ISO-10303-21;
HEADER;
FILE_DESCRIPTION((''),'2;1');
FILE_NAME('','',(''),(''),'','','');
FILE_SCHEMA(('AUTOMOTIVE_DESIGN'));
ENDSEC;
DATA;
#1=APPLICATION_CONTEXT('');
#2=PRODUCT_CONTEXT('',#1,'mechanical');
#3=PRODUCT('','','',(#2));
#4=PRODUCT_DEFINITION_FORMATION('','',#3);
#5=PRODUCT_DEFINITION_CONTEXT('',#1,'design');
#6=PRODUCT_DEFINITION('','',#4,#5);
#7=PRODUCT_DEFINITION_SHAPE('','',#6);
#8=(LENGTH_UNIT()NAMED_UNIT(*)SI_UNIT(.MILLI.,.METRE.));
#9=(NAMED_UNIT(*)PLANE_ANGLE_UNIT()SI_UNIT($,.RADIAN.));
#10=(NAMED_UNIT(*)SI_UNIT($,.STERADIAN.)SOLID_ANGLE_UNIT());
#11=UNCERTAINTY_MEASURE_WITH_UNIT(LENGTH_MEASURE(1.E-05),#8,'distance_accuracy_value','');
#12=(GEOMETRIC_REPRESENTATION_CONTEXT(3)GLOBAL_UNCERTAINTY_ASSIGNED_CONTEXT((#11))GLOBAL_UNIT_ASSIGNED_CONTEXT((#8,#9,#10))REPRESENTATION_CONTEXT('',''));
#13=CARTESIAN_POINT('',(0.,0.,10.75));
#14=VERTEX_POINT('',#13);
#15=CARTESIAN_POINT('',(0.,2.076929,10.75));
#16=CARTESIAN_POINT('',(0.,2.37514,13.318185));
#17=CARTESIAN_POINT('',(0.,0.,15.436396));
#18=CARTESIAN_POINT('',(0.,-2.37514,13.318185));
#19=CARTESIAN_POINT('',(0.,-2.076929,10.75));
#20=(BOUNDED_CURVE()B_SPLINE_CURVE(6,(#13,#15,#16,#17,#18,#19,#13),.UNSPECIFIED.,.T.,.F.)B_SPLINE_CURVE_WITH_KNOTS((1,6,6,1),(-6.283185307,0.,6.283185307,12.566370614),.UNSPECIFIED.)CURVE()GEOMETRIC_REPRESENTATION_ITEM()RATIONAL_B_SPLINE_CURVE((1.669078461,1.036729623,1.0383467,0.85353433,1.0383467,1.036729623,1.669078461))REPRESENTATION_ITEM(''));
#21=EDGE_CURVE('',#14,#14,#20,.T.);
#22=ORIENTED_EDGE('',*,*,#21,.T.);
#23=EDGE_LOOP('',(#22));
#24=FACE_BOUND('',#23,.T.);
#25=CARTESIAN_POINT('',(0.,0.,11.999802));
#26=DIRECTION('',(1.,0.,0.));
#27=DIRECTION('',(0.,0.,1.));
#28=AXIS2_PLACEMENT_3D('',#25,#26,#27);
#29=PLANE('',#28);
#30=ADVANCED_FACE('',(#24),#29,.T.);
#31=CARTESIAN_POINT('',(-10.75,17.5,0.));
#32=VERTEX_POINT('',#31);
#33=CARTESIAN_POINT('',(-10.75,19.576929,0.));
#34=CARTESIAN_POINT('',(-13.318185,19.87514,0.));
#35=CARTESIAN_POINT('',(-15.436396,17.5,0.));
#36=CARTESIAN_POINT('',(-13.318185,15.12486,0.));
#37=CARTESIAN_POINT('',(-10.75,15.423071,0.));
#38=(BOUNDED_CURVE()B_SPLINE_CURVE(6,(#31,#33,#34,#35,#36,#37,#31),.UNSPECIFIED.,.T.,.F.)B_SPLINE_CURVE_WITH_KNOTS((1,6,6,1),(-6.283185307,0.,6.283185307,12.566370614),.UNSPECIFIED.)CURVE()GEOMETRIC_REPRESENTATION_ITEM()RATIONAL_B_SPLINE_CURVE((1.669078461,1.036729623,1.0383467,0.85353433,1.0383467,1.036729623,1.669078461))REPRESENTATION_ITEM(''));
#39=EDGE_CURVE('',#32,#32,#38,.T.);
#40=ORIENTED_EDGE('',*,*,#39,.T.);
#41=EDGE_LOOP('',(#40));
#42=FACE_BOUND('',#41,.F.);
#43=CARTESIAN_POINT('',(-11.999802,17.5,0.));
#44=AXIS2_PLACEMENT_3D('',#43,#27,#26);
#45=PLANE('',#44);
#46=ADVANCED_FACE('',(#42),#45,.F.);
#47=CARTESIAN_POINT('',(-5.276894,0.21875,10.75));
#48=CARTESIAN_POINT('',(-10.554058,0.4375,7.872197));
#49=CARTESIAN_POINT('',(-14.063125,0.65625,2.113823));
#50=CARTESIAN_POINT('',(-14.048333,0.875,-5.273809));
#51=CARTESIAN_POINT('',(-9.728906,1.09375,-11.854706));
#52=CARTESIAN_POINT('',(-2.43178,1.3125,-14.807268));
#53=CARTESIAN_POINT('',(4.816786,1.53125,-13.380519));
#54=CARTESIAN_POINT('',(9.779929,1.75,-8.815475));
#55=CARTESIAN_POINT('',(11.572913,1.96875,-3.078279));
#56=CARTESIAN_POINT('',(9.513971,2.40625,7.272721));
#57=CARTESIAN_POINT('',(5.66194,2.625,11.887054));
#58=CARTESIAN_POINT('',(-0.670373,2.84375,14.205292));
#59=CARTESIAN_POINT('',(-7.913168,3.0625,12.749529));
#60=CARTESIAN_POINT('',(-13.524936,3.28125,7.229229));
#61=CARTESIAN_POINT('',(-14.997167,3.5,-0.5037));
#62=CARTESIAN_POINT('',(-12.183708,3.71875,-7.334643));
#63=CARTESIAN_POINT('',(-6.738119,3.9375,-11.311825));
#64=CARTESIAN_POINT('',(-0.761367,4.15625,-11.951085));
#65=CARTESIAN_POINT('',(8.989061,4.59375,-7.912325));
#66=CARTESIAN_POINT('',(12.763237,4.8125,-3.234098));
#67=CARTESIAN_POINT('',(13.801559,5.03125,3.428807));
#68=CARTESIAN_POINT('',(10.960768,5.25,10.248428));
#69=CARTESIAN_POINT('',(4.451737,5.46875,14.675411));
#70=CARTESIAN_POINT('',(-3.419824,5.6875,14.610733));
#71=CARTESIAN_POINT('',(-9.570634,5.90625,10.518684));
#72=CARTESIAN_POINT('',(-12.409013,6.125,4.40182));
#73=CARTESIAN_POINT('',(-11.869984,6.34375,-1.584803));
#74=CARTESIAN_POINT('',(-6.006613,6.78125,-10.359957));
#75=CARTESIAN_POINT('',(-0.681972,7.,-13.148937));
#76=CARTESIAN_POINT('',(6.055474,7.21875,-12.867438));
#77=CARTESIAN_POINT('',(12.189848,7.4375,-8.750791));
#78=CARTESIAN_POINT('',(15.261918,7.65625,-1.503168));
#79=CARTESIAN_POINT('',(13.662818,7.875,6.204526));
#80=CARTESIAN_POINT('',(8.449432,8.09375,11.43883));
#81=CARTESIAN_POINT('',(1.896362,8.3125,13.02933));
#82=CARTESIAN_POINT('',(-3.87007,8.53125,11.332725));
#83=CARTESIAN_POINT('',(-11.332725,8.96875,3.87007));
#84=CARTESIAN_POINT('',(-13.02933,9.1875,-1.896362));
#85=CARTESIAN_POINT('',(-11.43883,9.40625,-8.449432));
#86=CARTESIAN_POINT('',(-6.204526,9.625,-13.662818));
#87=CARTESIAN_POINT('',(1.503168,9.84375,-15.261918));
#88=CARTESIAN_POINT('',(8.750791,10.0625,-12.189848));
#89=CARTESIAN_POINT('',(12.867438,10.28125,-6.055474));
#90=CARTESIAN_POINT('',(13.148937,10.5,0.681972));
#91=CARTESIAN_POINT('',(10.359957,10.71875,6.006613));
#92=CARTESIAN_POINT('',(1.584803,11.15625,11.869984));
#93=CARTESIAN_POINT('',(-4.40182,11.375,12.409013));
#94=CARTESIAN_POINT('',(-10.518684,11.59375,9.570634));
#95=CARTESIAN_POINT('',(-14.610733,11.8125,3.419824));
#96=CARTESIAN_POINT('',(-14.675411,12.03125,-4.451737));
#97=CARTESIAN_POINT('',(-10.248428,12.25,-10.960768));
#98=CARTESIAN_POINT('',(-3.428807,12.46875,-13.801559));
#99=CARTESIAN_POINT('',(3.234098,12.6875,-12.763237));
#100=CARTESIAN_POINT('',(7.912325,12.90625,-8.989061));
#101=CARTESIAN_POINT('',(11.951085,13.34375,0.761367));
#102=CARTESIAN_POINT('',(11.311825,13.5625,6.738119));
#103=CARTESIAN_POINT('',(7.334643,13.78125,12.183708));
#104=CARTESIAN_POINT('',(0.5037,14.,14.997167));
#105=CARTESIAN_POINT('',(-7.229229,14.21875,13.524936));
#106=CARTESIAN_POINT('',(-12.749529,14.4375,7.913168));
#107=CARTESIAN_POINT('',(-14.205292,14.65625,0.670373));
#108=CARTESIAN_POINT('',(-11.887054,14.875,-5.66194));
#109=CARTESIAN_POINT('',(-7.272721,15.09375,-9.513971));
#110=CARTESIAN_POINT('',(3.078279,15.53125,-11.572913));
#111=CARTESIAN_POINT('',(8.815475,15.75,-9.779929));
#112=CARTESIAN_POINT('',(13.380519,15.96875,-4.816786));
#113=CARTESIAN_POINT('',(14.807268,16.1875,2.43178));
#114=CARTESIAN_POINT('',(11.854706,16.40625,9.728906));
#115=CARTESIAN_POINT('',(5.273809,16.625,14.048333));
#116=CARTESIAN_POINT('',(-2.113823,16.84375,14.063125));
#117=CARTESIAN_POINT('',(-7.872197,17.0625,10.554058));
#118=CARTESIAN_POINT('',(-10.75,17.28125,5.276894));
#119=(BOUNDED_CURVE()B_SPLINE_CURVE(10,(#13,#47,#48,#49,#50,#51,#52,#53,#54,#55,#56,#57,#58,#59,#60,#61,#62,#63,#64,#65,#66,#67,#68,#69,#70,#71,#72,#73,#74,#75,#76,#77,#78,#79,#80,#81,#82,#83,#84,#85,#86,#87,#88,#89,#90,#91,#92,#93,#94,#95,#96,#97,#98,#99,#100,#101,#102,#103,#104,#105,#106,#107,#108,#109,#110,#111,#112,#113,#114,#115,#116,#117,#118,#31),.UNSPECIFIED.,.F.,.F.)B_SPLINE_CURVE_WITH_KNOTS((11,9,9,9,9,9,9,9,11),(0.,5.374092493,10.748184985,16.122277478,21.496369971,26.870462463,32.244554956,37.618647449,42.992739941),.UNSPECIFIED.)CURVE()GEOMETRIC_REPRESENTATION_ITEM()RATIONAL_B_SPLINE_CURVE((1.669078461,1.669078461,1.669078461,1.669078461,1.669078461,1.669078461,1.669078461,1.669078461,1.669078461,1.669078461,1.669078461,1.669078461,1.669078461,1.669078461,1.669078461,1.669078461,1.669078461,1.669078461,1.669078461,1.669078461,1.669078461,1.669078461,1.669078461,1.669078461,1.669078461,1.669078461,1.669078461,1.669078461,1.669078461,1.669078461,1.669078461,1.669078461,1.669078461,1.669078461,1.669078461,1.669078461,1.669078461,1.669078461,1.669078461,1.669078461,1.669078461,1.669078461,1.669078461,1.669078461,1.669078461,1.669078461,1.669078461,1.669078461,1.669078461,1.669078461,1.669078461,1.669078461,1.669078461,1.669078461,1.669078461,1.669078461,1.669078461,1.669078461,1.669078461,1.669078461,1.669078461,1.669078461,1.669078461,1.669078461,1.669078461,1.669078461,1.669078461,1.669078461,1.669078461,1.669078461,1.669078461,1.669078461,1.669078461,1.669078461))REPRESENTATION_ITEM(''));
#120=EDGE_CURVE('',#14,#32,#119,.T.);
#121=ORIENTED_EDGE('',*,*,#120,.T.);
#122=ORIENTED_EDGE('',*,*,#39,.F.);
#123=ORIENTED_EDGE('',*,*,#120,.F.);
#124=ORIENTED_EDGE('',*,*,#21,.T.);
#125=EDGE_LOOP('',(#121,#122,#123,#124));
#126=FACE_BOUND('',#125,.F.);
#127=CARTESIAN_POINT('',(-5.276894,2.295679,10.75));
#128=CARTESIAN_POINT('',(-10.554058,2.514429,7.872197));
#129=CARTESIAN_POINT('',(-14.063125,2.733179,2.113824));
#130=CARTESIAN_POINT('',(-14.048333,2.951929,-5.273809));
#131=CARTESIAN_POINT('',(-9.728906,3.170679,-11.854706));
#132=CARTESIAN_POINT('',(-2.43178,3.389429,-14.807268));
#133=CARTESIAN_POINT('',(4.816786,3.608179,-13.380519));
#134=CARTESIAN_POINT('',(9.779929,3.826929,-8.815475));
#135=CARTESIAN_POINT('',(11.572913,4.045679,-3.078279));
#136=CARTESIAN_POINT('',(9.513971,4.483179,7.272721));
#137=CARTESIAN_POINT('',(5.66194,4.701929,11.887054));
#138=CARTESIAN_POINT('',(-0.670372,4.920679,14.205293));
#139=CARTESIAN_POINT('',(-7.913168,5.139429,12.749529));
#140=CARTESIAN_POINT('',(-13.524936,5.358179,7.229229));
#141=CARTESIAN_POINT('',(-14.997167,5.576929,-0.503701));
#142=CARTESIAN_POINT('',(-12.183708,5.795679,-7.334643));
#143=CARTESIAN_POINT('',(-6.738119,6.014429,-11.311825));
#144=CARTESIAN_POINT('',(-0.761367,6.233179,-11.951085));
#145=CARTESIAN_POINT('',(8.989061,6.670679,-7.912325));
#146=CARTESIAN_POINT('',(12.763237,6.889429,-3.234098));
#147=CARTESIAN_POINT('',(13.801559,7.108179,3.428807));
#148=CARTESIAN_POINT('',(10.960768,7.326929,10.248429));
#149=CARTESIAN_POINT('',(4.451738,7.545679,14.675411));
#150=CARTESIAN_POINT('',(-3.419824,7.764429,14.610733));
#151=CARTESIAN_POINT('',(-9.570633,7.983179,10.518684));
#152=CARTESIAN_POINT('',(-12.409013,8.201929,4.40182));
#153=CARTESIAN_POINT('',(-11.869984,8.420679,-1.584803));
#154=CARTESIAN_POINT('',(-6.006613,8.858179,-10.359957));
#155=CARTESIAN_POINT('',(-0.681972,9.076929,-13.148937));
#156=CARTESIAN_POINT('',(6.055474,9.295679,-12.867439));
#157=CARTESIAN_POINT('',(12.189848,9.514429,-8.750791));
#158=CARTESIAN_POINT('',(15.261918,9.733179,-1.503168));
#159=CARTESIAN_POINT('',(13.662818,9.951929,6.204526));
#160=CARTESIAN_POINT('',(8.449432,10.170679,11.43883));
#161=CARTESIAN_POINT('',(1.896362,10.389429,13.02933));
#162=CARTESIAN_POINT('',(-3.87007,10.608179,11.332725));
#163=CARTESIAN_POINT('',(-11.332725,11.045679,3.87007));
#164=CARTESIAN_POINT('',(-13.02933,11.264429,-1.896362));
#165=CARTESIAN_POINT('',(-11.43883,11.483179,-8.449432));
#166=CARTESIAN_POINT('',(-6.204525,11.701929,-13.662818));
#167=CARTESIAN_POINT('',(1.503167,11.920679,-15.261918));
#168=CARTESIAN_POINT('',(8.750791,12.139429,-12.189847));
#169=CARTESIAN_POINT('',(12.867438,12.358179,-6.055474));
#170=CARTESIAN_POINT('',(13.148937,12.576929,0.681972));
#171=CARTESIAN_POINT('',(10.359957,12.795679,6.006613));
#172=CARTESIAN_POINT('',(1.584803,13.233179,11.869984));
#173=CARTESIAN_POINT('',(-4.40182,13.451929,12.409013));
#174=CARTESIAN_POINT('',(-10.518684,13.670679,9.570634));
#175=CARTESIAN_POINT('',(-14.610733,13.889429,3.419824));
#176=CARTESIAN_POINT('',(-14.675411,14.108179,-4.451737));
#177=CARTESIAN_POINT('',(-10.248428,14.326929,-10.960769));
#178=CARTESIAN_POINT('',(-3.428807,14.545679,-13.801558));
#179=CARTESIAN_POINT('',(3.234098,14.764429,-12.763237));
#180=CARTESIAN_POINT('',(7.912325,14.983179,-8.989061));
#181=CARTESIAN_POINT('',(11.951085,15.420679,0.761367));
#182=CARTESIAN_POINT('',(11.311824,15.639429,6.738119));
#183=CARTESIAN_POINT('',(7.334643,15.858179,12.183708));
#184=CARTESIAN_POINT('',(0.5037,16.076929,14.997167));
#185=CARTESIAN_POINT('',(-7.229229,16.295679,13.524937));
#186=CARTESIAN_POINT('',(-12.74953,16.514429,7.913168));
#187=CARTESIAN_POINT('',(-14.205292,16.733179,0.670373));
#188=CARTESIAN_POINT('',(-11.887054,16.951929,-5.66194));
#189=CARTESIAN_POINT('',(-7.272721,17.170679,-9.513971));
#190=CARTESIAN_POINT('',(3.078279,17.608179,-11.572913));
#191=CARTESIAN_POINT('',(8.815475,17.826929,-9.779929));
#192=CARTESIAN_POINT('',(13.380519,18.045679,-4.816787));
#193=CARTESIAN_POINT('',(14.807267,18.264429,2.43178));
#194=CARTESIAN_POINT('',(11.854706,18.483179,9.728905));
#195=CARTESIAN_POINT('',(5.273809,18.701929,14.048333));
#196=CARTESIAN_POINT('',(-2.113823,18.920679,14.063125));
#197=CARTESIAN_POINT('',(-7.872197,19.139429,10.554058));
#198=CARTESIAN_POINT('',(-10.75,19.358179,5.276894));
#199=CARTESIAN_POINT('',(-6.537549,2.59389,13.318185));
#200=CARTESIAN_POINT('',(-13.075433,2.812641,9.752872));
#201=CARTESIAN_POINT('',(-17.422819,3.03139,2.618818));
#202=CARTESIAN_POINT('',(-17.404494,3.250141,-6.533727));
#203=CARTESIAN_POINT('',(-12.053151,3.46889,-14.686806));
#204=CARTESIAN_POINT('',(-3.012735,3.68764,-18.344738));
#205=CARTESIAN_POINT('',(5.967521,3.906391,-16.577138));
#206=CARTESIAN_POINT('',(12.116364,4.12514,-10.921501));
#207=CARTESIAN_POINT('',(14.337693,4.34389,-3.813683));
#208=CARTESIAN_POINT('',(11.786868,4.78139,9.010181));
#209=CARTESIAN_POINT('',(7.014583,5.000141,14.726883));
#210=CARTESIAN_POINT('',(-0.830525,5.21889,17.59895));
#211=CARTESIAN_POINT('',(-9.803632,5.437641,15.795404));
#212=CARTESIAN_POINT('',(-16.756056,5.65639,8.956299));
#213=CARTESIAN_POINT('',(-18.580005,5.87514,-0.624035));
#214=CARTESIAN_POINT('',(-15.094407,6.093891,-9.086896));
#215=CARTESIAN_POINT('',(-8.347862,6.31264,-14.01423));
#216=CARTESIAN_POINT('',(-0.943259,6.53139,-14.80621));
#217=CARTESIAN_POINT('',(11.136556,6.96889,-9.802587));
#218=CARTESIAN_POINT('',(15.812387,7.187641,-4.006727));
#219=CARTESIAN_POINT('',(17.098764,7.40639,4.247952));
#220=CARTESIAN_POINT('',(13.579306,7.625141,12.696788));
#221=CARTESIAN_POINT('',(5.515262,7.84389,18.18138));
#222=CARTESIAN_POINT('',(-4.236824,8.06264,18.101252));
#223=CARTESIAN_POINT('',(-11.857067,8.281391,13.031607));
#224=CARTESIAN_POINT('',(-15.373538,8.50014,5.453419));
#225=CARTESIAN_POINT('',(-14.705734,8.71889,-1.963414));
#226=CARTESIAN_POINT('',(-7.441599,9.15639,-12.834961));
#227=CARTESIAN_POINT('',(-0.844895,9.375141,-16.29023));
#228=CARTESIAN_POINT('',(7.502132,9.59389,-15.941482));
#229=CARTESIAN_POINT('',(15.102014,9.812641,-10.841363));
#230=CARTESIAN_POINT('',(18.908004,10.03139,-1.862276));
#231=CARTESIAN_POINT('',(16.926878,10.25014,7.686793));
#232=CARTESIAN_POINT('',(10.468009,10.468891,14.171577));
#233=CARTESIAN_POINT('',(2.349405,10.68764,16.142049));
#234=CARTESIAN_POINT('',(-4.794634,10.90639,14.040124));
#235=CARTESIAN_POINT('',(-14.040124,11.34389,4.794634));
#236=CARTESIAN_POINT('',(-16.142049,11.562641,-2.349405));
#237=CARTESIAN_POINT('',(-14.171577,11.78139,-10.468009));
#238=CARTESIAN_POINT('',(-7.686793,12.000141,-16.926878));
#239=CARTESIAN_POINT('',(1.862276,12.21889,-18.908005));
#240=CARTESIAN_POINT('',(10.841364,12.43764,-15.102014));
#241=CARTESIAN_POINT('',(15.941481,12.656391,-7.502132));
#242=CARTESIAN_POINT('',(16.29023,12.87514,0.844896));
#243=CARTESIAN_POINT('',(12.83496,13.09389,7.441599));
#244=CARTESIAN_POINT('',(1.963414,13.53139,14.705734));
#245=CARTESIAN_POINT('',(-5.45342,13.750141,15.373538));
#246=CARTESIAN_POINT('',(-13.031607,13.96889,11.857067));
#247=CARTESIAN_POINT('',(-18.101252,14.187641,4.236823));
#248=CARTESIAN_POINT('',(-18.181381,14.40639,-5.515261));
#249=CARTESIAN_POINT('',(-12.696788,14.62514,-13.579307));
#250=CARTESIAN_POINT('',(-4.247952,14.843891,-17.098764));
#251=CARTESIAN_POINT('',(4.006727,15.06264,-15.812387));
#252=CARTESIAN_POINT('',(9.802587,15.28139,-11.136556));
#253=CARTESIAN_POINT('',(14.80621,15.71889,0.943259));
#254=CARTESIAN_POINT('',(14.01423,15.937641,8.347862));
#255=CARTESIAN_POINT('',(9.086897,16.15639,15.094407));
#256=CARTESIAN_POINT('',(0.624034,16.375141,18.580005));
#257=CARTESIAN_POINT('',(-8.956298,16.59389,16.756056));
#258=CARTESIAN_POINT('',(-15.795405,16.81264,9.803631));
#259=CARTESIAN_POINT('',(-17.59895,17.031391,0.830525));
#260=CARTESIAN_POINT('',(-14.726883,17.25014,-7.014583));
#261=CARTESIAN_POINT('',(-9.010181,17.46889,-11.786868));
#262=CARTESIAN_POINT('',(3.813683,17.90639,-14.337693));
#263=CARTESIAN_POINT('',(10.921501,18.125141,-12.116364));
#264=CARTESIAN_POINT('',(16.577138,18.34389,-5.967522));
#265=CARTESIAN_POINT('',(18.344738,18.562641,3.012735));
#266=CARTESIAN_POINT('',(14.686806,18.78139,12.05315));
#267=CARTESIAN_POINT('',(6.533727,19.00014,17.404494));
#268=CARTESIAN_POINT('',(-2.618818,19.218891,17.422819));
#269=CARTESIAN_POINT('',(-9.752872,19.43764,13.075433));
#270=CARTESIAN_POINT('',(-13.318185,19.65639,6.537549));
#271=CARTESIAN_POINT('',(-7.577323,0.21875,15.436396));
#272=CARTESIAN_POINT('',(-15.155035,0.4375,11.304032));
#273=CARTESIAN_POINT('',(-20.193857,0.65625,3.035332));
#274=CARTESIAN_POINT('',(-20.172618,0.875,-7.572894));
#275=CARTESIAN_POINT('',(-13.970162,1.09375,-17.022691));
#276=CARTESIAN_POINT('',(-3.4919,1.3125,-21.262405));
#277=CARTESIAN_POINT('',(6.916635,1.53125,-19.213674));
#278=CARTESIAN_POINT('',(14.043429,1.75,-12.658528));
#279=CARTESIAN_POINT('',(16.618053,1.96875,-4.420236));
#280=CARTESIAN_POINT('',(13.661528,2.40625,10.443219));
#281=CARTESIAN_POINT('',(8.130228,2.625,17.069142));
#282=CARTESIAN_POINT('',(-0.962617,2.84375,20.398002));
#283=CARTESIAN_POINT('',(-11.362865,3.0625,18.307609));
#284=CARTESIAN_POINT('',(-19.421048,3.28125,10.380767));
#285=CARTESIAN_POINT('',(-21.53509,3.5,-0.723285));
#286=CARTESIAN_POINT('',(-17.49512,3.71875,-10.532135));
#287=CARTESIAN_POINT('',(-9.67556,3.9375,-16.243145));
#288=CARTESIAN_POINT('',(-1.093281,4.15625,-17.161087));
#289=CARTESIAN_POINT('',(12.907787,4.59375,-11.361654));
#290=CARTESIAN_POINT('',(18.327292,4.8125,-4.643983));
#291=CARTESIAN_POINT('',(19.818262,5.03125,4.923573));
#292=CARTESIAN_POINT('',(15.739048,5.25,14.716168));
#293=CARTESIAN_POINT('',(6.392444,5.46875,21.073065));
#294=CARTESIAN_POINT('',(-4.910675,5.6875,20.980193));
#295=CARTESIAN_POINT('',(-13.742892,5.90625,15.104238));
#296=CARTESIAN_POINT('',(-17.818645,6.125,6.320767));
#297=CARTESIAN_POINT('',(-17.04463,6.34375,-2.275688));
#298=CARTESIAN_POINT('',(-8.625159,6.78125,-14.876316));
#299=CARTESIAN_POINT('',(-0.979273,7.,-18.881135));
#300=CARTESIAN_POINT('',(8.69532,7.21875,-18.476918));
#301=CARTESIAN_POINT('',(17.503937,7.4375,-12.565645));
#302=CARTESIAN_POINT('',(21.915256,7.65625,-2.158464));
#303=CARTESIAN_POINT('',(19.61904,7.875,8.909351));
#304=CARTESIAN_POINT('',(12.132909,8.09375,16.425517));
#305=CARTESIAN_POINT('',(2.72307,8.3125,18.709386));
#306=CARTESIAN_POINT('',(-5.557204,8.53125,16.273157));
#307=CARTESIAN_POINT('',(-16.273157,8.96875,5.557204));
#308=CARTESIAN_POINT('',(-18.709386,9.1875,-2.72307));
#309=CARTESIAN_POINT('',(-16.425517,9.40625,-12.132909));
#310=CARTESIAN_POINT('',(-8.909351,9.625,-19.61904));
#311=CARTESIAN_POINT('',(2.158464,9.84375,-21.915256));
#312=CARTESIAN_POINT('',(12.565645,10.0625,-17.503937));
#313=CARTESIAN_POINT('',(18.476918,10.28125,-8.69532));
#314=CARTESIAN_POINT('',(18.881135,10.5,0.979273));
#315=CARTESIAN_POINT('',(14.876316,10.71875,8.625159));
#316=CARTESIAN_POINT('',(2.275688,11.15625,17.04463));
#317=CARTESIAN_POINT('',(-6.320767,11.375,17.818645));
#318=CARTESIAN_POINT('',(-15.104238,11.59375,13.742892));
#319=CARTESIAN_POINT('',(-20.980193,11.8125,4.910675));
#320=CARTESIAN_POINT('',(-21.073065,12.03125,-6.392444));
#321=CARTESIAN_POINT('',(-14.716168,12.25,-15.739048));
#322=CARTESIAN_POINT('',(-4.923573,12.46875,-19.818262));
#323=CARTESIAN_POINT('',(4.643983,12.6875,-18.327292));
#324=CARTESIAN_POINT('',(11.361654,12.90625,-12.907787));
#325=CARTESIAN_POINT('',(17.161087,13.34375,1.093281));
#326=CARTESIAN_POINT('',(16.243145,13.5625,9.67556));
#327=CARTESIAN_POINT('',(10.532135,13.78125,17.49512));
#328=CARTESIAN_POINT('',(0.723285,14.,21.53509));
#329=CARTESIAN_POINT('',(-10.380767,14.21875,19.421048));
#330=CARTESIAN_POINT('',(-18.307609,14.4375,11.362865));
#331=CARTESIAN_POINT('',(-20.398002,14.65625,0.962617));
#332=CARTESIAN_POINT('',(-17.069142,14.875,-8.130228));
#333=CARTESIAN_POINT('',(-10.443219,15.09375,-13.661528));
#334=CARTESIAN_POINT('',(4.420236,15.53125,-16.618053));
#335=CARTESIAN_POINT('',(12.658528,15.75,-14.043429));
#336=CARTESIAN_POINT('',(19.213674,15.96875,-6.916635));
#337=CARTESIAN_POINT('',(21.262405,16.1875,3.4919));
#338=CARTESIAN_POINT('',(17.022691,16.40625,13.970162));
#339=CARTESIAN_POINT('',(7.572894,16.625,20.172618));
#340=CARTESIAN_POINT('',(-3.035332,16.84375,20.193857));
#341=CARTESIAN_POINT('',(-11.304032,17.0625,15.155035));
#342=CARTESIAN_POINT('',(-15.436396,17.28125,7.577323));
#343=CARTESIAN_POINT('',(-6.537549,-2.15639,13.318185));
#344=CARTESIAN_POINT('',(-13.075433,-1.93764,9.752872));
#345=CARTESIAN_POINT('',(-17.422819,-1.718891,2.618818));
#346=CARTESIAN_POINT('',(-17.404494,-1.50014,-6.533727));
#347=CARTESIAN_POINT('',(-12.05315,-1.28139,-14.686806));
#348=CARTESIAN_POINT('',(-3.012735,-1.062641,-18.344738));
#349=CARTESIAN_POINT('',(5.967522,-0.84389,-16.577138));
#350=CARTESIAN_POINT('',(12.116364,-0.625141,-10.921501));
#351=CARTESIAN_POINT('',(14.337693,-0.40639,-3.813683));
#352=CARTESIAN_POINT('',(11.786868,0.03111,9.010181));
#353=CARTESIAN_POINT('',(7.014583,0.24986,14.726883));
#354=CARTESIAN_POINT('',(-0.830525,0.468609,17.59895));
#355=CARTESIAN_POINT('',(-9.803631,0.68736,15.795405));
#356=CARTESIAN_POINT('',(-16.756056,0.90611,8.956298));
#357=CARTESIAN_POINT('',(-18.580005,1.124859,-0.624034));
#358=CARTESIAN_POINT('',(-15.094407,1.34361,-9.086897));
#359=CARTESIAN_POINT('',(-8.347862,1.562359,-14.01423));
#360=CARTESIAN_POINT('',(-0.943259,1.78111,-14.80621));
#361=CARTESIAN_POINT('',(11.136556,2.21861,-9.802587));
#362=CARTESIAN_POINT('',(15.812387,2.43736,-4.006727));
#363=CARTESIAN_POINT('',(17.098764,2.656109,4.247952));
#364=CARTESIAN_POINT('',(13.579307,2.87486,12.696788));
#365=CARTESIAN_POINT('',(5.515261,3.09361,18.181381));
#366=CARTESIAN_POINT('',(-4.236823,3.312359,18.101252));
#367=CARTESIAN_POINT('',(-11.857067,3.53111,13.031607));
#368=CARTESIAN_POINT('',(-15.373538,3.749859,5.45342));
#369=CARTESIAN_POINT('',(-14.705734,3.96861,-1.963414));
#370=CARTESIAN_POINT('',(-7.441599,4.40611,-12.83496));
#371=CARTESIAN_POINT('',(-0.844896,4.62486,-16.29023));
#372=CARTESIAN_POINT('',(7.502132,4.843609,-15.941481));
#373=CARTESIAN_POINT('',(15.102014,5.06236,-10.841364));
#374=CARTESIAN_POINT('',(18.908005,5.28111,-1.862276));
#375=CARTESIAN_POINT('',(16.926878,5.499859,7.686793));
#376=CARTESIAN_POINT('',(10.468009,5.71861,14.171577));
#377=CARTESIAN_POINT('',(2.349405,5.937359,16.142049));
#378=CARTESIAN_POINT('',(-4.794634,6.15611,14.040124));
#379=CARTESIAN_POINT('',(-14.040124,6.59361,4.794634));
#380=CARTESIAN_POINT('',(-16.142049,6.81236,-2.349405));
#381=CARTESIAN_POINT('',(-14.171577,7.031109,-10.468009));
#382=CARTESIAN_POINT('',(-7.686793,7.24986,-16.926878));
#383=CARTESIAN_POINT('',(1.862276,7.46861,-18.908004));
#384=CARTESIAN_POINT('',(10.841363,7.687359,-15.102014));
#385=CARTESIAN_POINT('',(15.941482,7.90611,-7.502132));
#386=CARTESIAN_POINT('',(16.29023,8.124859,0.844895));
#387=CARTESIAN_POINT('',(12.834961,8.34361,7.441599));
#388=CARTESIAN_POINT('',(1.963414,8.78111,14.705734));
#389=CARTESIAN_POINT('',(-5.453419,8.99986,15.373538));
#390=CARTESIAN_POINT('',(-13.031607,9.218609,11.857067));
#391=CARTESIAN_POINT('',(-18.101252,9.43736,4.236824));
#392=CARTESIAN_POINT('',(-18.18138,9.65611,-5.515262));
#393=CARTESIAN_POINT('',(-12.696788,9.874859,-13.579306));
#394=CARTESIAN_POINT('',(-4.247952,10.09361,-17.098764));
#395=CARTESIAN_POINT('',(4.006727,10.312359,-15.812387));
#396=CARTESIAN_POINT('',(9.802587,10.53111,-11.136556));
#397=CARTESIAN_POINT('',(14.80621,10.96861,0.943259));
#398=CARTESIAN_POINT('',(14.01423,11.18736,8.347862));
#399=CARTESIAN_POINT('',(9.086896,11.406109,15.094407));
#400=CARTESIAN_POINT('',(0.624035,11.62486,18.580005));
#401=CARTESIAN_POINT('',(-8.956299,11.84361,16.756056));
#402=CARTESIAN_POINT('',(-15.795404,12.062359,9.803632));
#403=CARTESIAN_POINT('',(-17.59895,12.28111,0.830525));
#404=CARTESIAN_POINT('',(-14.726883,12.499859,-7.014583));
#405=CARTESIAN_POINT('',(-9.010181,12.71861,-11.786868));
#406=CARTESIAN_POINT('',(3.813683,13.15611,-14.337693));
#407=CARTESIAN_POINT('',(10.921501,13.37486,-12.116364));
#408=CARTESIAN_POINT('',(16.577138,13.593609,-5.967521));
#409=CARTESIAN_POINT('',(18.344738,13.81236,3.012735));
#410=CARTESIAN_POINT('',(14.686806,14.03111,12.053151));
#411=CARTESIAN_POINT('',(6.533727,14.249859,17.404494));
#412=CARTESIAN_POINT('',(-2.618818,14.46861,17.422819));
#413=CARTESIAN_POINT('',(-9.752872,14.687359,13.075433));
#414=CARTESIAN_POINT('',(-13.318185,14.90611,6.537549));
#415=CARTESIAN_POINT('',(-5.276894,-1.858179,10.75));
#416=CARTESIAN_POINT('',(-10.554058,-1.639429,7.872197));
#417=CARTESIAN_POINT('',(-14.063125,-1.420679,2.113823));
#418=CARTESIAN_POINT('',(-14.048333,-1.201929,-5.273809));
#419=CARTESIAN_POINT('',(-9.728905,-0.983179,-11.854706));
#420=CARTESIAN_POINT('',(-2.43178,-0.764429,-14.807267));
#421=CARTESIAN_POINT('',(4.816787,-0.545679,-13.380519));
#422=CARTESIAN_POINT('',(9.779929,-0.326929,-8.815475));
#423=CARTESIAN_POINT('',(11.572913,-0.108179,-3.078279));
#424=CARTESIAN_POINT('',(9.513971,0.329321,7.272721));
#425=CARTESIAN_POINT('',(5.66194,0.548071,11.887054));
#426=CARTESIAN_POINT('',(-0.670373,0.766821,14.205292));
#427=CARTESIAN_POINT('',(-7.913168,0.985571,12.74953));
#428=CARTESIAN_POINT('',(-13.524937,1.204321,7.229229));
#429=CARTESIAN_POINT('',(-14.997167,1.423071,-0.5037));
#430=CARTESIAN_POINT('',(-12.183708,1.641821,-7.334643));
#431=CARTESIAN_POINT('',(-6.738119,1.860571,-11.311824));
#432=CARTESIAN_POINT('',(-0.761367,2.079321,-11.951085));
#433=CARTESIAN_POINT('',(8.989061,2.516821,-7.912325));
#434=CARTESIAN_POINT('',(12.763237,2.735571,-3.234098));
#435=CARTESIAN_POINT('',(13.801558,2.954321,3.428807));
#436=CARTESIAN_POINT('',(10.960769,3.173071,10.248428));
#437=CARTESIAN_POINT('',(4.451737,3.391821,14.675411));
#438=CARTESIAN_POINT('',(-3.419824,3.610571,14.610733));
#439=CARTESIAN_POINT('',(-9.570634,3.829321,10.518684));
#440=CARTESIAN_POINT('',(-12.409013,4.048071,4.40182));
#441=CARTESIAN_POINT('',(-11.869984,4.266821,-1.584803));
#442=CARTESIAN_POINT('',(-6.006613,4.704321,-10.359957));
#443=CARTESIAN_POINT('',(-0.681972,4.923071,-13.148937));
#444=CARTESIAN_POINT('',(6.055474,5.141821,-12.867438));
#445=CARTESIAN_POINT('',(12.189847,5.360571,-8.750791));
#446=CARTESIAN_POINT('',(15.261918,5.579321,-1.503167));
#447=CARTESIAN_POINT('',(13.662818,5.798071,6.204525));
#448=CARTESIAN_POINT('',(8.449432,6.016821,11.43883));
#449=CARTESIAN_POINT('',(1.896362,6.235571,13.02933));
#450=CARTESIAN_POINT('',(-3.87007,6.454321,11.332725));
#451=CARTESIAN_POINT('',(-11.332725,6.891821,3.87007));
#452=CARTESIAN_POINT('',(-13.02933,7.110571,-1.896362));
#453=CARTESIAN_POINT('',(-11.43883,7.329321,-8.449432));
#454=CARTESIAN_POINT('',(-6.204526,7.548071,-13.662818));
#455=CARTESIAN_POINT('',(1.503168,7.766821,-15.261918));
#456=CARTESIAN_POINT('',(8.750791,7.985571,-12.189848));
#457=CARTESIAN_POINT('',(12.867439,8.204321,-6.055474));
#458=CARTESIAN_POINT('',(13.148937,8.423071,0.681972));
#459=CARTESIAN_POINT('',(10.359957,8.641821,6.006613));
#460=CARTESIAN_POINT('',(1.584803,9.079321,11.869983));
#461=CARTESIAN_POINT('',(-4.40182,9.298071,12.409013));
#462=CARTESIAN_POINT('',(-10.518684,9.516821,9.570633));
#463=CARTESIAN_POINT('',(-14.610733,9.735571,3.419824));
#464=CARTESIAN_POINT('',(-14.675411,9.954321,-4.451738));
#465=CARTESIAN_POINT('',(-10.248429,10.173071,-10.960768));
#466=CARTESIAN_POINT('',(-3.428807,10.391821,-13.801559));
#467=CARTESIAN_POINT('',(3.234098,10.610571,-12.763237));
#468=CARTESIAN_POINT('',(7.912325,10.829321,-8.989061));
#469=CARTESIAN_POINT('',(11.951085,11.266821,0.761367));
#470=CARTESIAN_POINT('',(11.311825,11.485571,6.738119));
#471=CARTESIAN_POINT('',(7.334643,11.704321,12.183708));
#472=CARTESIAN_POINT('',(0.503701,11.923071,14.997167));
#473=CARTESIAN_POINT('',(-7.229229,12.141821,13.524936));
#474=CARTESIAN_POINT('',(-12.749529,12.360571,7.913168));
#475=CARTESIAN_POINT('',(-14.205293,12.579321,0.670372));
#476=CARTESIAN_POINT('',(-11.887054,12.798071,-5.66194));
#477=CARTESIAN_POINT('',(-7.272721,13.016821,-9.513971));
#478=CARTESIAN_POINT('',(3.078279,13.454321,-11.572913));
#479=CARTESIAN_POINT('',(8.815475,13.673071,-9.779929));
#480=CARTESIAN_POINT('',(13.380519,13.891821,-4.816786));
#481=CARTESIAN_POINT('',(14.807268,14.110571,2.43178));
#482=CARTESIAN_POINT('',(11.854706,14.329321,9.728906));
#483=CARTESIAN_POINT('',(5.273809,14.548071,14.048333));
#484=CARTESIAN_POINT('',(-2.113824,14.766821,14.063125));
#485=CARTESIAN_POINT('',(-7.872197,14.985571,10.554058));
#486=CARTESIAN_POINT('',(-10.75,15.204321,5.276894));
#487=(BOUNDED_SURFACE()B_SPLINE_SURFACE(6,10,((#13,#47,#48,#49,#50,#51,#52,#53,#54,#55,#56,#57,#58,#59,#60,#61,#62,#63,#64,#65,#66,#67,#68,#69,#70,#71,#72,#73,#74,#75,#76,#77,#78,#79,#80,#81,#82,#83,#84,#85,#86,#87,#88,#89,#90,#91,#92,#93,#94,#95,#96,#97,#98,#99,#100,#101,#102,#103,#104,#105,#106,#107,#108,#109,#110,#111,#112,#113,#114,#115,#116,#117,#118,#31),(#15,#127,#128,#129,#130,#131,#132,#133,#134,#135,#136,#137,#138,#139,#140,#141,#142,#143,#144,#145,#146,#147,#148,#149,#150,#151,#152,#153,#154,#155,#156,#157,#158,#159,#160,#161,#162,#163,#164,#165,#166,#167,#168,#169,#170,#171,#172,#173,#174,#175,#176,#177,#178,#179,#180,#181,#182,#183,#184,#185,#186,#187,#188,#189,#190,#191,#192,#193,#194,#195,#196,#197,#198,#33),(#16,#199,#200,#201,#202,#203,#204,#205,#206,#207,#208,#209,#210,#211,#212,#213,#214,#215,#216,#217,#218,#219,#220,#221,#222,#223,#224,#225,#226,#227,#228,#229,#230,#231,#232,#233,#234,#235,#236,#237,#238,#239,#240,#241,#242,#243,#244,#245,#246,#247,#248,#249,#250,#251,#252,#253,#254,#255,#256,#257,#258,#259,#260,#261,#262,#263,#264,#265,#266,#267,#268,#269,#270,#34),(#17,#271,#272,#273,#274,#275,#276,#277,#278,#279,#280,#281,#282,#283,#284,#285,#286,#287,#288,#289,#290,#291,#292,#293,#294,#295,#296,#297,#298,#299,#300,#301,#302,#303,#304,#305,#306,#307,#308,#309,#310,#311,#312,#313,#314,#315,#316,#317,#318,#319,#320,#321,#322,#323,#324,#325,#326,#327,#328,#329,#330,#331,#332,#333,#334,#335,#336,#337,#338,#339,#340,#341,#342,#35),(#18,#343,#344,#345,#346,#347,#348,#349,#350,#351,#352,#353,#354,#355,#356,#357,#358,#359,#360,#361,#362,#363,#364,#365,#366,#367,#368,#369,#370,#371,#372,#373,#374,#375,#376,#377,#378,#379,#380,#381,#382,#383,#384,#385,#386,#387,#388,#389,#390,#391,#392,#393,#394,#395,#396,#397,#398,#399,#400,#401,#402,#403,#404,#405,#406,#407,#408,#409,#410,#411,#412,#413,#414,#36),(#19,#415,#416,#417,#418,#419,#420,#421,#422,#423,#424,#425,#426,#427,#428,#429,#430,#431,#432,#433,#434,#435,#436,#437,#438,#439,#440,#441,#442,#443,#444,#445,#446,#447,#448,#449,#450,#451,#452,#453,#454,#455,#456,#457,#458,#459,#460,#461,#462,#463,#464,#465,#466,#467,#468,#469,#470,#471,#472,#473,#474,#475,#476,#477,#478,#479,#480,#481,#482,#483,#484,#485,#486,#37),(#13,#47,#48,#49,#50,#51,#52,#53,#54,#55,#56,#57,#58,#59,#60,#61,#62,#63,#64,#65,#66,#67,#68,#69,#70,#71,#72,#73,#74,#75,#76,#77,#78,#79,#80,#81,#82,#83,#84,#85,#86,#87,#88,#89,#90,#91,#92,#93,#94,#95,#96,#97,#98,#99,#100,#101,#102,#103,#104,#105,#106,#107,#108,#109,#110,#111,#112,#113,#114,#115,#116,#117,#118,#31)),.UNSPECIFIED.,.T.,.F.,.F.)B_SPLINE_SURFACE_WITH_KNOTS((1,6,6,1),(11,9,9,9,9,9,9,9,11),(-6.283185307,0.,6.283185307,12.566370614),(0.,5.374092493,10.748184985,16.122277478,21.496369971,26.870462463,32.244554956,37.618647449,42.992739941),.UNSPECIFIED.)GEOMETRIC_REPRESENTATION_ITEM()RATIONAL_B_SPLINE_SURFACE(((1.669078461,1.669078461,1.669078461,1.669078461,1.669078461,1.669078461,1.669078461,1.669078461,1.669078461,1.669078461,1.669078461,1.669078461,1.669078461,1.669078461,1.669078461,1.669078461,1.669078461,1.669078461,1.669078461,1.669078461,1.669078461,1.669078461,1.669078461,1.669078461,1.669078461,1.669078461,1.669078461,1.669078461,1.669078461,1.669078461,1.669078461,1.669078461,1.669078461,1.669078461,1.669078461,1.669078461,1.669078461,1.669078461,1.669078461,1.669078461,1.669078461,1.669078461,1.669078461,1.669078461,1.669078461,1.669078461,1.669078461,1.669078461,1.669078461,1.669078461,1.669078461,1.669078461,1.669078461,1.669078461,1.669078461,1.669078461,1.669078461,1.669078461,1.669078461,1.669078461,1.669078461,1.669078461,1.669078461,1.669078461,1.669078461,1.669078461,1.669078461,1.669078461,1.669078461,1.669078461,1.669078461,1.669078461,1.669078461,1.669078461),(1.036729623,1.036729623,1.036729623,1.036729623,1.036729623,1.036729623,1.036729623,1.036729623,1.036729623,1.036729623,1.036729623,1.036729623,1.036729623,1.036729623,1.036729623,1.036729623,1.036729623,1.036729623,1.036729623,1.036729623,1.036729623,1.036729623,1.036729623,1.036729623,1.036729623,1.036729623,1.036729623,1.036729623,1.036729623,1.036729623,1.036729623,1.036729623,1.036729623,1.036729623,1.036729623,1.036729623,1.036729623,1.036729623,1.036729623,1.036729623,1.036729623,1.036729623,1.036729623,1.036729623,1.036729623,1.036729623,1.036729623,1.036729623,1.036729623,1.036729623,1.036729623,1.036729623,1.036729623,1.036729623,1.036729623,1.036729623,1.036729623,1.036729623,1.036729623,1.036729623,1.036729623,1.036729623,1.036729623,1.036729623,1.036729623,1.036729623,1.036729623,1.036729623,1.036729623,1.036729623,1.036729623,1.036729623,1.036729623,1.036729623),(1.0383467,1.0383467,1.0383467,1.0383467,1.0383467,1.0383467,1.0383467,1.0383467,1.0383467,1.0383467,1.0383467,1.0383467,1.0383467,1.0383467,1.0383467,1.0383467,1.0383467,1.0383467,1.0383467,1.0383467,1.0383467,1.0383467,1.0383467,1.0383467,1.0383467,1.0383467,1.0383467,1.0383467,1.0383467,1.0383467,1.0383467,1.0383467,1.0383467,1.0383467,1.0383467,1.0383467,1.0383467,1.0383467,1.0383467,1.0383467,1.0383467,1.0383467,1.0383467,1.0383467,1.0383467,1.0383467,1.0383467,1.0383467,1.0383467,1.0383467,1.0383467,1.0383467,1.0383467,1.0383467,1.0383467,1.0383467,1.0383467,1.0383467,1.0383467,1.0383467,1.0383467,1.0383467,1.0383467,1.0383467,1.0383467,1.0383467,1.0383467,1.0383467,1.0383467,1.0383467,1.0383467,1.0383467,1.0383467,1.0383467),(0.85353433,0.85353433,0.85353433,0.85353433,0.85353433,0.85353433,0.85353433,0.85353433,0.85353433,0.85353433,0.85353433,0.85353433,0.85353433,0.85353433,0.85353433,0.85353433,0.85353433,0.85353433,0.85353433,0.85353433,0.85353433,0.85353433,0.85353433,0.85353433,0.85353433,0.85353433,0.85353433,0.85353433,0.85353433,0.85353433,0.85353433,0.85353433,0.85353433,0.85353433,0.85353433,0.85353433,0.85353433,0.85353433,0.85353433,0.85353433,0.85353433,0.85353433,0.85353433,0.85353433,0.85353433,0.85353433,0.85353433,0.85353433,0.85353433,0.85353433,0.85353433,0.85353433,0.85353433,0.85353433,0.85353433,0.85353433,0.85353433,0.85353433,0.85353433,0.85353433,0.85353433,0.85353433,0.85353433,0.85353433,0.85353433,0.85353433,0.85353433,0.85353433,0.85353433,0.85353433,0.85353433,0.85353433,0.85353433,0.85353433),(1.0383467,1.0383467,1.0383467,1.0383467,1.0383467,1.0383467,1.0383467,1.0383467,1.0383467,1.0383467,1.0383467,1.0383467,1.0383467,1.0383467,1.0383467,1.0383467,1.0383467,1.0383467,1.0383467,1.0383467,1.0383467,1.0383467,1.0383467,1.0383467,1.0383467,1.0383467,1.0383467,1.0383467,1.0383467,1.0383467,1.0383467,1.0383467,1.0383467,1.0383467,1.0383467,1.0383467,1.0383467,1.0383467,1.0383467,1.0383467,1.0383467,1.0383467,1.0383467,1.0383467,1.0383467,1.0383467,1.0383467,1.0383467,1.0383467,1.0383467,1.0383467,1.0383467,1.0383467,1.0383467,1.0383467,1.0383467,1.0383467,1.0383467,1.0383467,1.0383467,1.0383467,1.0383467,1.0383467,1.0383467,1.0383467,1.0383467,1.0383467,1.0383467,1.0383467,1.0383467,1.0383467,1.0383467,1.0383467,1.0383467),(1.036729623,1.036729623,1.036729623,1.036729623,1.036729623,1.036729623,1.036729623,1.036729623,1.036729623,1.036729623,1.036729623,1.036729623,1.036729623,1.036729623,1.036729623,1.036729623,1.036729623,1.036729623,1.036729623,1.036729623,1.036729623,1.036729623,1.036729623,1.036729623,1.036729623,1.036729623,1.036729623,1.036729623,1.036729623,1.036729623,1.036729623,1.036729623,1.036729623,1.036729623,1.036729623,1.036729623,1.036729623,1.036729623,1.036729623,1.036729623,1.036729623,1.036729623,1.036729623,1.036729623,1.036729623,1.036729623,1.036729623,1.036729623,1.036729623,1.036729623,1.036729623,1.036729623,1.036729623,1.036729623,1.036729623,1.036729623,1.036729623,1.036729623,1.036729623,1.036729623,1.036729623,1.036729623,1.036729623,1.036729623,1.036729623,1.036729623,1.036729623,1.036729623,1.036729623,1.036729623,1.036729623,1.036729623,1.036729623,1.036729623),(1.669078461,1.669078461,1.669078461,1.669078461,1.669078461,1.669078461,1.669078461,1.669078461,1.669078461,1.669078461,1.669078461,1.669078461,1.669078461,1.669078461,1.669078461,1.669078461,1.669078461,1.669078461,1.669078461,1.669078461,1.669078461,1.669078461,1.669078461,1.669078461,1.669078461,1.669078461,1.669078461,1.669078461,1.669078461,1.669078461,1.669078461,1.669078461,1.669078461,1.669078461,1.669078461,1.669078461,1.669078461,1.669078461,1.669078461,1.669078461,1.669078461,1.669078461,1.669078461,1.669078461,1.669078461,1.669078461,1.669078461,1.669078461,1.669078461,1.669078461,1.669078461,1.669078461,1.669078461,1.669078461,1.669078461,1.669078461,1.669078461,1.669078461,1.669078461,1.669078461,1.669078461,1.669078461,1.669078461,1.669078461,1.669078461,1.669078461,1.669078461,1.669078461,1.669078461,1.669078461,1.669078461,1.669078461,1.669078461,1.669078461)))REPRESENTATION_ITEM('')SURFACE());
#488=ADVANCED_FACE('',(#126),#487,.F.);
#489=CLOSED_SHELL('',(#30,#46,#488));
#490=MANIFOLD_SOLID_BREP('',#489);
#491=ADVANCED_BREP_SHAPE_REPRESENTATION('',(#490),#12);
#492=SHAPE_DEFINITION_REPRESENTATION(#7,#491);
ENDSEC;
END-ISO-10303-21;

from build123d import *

# Parameters (mm, degrees)
WYCI_GNI_CIE_PO_CIE_CE1_PITCH  = 2.8
WYCI_GNI_CIE_PO_CIE_CE1_HEIGHT = 17.5
WYCI_GNI_CIE_PO_CIE_CE1_RADIUS = 12
SZKIC1_R                       = 1.25


with BuildPart() as part:
    # Wyciągnięcie po ścieżce1: sweep along a helix
    with BuildLine() as wyci_gni_cie_po_cie_ce1_path:
        Helix(WYCI_GNI_CIE_PO_CIE_CE1_PITCH, WYCI_GNI_CIE_PO_CIE_CE1_HEIGHT, WYCI_GNI_CIE_PO_CIE_CE1_RADIUS, center=(0, 0, 0), direction=(0, 1, 0), lefthand=True)
    # Szkic1 → Wyciągnięcie po ścieżce1 (sweep)
    with BuildSketch(Plane(origin=(0, 0, 0), x_dir=(0, 0, -1), z_dir=(1, 0, 0))):
        with Locations((-12, 0)):
            Circle(SZKIC1_R)
    sweep(path=wyci_gni_cie_po_cie_ce1_path.line, is_frenet=True)


solid = part.part
